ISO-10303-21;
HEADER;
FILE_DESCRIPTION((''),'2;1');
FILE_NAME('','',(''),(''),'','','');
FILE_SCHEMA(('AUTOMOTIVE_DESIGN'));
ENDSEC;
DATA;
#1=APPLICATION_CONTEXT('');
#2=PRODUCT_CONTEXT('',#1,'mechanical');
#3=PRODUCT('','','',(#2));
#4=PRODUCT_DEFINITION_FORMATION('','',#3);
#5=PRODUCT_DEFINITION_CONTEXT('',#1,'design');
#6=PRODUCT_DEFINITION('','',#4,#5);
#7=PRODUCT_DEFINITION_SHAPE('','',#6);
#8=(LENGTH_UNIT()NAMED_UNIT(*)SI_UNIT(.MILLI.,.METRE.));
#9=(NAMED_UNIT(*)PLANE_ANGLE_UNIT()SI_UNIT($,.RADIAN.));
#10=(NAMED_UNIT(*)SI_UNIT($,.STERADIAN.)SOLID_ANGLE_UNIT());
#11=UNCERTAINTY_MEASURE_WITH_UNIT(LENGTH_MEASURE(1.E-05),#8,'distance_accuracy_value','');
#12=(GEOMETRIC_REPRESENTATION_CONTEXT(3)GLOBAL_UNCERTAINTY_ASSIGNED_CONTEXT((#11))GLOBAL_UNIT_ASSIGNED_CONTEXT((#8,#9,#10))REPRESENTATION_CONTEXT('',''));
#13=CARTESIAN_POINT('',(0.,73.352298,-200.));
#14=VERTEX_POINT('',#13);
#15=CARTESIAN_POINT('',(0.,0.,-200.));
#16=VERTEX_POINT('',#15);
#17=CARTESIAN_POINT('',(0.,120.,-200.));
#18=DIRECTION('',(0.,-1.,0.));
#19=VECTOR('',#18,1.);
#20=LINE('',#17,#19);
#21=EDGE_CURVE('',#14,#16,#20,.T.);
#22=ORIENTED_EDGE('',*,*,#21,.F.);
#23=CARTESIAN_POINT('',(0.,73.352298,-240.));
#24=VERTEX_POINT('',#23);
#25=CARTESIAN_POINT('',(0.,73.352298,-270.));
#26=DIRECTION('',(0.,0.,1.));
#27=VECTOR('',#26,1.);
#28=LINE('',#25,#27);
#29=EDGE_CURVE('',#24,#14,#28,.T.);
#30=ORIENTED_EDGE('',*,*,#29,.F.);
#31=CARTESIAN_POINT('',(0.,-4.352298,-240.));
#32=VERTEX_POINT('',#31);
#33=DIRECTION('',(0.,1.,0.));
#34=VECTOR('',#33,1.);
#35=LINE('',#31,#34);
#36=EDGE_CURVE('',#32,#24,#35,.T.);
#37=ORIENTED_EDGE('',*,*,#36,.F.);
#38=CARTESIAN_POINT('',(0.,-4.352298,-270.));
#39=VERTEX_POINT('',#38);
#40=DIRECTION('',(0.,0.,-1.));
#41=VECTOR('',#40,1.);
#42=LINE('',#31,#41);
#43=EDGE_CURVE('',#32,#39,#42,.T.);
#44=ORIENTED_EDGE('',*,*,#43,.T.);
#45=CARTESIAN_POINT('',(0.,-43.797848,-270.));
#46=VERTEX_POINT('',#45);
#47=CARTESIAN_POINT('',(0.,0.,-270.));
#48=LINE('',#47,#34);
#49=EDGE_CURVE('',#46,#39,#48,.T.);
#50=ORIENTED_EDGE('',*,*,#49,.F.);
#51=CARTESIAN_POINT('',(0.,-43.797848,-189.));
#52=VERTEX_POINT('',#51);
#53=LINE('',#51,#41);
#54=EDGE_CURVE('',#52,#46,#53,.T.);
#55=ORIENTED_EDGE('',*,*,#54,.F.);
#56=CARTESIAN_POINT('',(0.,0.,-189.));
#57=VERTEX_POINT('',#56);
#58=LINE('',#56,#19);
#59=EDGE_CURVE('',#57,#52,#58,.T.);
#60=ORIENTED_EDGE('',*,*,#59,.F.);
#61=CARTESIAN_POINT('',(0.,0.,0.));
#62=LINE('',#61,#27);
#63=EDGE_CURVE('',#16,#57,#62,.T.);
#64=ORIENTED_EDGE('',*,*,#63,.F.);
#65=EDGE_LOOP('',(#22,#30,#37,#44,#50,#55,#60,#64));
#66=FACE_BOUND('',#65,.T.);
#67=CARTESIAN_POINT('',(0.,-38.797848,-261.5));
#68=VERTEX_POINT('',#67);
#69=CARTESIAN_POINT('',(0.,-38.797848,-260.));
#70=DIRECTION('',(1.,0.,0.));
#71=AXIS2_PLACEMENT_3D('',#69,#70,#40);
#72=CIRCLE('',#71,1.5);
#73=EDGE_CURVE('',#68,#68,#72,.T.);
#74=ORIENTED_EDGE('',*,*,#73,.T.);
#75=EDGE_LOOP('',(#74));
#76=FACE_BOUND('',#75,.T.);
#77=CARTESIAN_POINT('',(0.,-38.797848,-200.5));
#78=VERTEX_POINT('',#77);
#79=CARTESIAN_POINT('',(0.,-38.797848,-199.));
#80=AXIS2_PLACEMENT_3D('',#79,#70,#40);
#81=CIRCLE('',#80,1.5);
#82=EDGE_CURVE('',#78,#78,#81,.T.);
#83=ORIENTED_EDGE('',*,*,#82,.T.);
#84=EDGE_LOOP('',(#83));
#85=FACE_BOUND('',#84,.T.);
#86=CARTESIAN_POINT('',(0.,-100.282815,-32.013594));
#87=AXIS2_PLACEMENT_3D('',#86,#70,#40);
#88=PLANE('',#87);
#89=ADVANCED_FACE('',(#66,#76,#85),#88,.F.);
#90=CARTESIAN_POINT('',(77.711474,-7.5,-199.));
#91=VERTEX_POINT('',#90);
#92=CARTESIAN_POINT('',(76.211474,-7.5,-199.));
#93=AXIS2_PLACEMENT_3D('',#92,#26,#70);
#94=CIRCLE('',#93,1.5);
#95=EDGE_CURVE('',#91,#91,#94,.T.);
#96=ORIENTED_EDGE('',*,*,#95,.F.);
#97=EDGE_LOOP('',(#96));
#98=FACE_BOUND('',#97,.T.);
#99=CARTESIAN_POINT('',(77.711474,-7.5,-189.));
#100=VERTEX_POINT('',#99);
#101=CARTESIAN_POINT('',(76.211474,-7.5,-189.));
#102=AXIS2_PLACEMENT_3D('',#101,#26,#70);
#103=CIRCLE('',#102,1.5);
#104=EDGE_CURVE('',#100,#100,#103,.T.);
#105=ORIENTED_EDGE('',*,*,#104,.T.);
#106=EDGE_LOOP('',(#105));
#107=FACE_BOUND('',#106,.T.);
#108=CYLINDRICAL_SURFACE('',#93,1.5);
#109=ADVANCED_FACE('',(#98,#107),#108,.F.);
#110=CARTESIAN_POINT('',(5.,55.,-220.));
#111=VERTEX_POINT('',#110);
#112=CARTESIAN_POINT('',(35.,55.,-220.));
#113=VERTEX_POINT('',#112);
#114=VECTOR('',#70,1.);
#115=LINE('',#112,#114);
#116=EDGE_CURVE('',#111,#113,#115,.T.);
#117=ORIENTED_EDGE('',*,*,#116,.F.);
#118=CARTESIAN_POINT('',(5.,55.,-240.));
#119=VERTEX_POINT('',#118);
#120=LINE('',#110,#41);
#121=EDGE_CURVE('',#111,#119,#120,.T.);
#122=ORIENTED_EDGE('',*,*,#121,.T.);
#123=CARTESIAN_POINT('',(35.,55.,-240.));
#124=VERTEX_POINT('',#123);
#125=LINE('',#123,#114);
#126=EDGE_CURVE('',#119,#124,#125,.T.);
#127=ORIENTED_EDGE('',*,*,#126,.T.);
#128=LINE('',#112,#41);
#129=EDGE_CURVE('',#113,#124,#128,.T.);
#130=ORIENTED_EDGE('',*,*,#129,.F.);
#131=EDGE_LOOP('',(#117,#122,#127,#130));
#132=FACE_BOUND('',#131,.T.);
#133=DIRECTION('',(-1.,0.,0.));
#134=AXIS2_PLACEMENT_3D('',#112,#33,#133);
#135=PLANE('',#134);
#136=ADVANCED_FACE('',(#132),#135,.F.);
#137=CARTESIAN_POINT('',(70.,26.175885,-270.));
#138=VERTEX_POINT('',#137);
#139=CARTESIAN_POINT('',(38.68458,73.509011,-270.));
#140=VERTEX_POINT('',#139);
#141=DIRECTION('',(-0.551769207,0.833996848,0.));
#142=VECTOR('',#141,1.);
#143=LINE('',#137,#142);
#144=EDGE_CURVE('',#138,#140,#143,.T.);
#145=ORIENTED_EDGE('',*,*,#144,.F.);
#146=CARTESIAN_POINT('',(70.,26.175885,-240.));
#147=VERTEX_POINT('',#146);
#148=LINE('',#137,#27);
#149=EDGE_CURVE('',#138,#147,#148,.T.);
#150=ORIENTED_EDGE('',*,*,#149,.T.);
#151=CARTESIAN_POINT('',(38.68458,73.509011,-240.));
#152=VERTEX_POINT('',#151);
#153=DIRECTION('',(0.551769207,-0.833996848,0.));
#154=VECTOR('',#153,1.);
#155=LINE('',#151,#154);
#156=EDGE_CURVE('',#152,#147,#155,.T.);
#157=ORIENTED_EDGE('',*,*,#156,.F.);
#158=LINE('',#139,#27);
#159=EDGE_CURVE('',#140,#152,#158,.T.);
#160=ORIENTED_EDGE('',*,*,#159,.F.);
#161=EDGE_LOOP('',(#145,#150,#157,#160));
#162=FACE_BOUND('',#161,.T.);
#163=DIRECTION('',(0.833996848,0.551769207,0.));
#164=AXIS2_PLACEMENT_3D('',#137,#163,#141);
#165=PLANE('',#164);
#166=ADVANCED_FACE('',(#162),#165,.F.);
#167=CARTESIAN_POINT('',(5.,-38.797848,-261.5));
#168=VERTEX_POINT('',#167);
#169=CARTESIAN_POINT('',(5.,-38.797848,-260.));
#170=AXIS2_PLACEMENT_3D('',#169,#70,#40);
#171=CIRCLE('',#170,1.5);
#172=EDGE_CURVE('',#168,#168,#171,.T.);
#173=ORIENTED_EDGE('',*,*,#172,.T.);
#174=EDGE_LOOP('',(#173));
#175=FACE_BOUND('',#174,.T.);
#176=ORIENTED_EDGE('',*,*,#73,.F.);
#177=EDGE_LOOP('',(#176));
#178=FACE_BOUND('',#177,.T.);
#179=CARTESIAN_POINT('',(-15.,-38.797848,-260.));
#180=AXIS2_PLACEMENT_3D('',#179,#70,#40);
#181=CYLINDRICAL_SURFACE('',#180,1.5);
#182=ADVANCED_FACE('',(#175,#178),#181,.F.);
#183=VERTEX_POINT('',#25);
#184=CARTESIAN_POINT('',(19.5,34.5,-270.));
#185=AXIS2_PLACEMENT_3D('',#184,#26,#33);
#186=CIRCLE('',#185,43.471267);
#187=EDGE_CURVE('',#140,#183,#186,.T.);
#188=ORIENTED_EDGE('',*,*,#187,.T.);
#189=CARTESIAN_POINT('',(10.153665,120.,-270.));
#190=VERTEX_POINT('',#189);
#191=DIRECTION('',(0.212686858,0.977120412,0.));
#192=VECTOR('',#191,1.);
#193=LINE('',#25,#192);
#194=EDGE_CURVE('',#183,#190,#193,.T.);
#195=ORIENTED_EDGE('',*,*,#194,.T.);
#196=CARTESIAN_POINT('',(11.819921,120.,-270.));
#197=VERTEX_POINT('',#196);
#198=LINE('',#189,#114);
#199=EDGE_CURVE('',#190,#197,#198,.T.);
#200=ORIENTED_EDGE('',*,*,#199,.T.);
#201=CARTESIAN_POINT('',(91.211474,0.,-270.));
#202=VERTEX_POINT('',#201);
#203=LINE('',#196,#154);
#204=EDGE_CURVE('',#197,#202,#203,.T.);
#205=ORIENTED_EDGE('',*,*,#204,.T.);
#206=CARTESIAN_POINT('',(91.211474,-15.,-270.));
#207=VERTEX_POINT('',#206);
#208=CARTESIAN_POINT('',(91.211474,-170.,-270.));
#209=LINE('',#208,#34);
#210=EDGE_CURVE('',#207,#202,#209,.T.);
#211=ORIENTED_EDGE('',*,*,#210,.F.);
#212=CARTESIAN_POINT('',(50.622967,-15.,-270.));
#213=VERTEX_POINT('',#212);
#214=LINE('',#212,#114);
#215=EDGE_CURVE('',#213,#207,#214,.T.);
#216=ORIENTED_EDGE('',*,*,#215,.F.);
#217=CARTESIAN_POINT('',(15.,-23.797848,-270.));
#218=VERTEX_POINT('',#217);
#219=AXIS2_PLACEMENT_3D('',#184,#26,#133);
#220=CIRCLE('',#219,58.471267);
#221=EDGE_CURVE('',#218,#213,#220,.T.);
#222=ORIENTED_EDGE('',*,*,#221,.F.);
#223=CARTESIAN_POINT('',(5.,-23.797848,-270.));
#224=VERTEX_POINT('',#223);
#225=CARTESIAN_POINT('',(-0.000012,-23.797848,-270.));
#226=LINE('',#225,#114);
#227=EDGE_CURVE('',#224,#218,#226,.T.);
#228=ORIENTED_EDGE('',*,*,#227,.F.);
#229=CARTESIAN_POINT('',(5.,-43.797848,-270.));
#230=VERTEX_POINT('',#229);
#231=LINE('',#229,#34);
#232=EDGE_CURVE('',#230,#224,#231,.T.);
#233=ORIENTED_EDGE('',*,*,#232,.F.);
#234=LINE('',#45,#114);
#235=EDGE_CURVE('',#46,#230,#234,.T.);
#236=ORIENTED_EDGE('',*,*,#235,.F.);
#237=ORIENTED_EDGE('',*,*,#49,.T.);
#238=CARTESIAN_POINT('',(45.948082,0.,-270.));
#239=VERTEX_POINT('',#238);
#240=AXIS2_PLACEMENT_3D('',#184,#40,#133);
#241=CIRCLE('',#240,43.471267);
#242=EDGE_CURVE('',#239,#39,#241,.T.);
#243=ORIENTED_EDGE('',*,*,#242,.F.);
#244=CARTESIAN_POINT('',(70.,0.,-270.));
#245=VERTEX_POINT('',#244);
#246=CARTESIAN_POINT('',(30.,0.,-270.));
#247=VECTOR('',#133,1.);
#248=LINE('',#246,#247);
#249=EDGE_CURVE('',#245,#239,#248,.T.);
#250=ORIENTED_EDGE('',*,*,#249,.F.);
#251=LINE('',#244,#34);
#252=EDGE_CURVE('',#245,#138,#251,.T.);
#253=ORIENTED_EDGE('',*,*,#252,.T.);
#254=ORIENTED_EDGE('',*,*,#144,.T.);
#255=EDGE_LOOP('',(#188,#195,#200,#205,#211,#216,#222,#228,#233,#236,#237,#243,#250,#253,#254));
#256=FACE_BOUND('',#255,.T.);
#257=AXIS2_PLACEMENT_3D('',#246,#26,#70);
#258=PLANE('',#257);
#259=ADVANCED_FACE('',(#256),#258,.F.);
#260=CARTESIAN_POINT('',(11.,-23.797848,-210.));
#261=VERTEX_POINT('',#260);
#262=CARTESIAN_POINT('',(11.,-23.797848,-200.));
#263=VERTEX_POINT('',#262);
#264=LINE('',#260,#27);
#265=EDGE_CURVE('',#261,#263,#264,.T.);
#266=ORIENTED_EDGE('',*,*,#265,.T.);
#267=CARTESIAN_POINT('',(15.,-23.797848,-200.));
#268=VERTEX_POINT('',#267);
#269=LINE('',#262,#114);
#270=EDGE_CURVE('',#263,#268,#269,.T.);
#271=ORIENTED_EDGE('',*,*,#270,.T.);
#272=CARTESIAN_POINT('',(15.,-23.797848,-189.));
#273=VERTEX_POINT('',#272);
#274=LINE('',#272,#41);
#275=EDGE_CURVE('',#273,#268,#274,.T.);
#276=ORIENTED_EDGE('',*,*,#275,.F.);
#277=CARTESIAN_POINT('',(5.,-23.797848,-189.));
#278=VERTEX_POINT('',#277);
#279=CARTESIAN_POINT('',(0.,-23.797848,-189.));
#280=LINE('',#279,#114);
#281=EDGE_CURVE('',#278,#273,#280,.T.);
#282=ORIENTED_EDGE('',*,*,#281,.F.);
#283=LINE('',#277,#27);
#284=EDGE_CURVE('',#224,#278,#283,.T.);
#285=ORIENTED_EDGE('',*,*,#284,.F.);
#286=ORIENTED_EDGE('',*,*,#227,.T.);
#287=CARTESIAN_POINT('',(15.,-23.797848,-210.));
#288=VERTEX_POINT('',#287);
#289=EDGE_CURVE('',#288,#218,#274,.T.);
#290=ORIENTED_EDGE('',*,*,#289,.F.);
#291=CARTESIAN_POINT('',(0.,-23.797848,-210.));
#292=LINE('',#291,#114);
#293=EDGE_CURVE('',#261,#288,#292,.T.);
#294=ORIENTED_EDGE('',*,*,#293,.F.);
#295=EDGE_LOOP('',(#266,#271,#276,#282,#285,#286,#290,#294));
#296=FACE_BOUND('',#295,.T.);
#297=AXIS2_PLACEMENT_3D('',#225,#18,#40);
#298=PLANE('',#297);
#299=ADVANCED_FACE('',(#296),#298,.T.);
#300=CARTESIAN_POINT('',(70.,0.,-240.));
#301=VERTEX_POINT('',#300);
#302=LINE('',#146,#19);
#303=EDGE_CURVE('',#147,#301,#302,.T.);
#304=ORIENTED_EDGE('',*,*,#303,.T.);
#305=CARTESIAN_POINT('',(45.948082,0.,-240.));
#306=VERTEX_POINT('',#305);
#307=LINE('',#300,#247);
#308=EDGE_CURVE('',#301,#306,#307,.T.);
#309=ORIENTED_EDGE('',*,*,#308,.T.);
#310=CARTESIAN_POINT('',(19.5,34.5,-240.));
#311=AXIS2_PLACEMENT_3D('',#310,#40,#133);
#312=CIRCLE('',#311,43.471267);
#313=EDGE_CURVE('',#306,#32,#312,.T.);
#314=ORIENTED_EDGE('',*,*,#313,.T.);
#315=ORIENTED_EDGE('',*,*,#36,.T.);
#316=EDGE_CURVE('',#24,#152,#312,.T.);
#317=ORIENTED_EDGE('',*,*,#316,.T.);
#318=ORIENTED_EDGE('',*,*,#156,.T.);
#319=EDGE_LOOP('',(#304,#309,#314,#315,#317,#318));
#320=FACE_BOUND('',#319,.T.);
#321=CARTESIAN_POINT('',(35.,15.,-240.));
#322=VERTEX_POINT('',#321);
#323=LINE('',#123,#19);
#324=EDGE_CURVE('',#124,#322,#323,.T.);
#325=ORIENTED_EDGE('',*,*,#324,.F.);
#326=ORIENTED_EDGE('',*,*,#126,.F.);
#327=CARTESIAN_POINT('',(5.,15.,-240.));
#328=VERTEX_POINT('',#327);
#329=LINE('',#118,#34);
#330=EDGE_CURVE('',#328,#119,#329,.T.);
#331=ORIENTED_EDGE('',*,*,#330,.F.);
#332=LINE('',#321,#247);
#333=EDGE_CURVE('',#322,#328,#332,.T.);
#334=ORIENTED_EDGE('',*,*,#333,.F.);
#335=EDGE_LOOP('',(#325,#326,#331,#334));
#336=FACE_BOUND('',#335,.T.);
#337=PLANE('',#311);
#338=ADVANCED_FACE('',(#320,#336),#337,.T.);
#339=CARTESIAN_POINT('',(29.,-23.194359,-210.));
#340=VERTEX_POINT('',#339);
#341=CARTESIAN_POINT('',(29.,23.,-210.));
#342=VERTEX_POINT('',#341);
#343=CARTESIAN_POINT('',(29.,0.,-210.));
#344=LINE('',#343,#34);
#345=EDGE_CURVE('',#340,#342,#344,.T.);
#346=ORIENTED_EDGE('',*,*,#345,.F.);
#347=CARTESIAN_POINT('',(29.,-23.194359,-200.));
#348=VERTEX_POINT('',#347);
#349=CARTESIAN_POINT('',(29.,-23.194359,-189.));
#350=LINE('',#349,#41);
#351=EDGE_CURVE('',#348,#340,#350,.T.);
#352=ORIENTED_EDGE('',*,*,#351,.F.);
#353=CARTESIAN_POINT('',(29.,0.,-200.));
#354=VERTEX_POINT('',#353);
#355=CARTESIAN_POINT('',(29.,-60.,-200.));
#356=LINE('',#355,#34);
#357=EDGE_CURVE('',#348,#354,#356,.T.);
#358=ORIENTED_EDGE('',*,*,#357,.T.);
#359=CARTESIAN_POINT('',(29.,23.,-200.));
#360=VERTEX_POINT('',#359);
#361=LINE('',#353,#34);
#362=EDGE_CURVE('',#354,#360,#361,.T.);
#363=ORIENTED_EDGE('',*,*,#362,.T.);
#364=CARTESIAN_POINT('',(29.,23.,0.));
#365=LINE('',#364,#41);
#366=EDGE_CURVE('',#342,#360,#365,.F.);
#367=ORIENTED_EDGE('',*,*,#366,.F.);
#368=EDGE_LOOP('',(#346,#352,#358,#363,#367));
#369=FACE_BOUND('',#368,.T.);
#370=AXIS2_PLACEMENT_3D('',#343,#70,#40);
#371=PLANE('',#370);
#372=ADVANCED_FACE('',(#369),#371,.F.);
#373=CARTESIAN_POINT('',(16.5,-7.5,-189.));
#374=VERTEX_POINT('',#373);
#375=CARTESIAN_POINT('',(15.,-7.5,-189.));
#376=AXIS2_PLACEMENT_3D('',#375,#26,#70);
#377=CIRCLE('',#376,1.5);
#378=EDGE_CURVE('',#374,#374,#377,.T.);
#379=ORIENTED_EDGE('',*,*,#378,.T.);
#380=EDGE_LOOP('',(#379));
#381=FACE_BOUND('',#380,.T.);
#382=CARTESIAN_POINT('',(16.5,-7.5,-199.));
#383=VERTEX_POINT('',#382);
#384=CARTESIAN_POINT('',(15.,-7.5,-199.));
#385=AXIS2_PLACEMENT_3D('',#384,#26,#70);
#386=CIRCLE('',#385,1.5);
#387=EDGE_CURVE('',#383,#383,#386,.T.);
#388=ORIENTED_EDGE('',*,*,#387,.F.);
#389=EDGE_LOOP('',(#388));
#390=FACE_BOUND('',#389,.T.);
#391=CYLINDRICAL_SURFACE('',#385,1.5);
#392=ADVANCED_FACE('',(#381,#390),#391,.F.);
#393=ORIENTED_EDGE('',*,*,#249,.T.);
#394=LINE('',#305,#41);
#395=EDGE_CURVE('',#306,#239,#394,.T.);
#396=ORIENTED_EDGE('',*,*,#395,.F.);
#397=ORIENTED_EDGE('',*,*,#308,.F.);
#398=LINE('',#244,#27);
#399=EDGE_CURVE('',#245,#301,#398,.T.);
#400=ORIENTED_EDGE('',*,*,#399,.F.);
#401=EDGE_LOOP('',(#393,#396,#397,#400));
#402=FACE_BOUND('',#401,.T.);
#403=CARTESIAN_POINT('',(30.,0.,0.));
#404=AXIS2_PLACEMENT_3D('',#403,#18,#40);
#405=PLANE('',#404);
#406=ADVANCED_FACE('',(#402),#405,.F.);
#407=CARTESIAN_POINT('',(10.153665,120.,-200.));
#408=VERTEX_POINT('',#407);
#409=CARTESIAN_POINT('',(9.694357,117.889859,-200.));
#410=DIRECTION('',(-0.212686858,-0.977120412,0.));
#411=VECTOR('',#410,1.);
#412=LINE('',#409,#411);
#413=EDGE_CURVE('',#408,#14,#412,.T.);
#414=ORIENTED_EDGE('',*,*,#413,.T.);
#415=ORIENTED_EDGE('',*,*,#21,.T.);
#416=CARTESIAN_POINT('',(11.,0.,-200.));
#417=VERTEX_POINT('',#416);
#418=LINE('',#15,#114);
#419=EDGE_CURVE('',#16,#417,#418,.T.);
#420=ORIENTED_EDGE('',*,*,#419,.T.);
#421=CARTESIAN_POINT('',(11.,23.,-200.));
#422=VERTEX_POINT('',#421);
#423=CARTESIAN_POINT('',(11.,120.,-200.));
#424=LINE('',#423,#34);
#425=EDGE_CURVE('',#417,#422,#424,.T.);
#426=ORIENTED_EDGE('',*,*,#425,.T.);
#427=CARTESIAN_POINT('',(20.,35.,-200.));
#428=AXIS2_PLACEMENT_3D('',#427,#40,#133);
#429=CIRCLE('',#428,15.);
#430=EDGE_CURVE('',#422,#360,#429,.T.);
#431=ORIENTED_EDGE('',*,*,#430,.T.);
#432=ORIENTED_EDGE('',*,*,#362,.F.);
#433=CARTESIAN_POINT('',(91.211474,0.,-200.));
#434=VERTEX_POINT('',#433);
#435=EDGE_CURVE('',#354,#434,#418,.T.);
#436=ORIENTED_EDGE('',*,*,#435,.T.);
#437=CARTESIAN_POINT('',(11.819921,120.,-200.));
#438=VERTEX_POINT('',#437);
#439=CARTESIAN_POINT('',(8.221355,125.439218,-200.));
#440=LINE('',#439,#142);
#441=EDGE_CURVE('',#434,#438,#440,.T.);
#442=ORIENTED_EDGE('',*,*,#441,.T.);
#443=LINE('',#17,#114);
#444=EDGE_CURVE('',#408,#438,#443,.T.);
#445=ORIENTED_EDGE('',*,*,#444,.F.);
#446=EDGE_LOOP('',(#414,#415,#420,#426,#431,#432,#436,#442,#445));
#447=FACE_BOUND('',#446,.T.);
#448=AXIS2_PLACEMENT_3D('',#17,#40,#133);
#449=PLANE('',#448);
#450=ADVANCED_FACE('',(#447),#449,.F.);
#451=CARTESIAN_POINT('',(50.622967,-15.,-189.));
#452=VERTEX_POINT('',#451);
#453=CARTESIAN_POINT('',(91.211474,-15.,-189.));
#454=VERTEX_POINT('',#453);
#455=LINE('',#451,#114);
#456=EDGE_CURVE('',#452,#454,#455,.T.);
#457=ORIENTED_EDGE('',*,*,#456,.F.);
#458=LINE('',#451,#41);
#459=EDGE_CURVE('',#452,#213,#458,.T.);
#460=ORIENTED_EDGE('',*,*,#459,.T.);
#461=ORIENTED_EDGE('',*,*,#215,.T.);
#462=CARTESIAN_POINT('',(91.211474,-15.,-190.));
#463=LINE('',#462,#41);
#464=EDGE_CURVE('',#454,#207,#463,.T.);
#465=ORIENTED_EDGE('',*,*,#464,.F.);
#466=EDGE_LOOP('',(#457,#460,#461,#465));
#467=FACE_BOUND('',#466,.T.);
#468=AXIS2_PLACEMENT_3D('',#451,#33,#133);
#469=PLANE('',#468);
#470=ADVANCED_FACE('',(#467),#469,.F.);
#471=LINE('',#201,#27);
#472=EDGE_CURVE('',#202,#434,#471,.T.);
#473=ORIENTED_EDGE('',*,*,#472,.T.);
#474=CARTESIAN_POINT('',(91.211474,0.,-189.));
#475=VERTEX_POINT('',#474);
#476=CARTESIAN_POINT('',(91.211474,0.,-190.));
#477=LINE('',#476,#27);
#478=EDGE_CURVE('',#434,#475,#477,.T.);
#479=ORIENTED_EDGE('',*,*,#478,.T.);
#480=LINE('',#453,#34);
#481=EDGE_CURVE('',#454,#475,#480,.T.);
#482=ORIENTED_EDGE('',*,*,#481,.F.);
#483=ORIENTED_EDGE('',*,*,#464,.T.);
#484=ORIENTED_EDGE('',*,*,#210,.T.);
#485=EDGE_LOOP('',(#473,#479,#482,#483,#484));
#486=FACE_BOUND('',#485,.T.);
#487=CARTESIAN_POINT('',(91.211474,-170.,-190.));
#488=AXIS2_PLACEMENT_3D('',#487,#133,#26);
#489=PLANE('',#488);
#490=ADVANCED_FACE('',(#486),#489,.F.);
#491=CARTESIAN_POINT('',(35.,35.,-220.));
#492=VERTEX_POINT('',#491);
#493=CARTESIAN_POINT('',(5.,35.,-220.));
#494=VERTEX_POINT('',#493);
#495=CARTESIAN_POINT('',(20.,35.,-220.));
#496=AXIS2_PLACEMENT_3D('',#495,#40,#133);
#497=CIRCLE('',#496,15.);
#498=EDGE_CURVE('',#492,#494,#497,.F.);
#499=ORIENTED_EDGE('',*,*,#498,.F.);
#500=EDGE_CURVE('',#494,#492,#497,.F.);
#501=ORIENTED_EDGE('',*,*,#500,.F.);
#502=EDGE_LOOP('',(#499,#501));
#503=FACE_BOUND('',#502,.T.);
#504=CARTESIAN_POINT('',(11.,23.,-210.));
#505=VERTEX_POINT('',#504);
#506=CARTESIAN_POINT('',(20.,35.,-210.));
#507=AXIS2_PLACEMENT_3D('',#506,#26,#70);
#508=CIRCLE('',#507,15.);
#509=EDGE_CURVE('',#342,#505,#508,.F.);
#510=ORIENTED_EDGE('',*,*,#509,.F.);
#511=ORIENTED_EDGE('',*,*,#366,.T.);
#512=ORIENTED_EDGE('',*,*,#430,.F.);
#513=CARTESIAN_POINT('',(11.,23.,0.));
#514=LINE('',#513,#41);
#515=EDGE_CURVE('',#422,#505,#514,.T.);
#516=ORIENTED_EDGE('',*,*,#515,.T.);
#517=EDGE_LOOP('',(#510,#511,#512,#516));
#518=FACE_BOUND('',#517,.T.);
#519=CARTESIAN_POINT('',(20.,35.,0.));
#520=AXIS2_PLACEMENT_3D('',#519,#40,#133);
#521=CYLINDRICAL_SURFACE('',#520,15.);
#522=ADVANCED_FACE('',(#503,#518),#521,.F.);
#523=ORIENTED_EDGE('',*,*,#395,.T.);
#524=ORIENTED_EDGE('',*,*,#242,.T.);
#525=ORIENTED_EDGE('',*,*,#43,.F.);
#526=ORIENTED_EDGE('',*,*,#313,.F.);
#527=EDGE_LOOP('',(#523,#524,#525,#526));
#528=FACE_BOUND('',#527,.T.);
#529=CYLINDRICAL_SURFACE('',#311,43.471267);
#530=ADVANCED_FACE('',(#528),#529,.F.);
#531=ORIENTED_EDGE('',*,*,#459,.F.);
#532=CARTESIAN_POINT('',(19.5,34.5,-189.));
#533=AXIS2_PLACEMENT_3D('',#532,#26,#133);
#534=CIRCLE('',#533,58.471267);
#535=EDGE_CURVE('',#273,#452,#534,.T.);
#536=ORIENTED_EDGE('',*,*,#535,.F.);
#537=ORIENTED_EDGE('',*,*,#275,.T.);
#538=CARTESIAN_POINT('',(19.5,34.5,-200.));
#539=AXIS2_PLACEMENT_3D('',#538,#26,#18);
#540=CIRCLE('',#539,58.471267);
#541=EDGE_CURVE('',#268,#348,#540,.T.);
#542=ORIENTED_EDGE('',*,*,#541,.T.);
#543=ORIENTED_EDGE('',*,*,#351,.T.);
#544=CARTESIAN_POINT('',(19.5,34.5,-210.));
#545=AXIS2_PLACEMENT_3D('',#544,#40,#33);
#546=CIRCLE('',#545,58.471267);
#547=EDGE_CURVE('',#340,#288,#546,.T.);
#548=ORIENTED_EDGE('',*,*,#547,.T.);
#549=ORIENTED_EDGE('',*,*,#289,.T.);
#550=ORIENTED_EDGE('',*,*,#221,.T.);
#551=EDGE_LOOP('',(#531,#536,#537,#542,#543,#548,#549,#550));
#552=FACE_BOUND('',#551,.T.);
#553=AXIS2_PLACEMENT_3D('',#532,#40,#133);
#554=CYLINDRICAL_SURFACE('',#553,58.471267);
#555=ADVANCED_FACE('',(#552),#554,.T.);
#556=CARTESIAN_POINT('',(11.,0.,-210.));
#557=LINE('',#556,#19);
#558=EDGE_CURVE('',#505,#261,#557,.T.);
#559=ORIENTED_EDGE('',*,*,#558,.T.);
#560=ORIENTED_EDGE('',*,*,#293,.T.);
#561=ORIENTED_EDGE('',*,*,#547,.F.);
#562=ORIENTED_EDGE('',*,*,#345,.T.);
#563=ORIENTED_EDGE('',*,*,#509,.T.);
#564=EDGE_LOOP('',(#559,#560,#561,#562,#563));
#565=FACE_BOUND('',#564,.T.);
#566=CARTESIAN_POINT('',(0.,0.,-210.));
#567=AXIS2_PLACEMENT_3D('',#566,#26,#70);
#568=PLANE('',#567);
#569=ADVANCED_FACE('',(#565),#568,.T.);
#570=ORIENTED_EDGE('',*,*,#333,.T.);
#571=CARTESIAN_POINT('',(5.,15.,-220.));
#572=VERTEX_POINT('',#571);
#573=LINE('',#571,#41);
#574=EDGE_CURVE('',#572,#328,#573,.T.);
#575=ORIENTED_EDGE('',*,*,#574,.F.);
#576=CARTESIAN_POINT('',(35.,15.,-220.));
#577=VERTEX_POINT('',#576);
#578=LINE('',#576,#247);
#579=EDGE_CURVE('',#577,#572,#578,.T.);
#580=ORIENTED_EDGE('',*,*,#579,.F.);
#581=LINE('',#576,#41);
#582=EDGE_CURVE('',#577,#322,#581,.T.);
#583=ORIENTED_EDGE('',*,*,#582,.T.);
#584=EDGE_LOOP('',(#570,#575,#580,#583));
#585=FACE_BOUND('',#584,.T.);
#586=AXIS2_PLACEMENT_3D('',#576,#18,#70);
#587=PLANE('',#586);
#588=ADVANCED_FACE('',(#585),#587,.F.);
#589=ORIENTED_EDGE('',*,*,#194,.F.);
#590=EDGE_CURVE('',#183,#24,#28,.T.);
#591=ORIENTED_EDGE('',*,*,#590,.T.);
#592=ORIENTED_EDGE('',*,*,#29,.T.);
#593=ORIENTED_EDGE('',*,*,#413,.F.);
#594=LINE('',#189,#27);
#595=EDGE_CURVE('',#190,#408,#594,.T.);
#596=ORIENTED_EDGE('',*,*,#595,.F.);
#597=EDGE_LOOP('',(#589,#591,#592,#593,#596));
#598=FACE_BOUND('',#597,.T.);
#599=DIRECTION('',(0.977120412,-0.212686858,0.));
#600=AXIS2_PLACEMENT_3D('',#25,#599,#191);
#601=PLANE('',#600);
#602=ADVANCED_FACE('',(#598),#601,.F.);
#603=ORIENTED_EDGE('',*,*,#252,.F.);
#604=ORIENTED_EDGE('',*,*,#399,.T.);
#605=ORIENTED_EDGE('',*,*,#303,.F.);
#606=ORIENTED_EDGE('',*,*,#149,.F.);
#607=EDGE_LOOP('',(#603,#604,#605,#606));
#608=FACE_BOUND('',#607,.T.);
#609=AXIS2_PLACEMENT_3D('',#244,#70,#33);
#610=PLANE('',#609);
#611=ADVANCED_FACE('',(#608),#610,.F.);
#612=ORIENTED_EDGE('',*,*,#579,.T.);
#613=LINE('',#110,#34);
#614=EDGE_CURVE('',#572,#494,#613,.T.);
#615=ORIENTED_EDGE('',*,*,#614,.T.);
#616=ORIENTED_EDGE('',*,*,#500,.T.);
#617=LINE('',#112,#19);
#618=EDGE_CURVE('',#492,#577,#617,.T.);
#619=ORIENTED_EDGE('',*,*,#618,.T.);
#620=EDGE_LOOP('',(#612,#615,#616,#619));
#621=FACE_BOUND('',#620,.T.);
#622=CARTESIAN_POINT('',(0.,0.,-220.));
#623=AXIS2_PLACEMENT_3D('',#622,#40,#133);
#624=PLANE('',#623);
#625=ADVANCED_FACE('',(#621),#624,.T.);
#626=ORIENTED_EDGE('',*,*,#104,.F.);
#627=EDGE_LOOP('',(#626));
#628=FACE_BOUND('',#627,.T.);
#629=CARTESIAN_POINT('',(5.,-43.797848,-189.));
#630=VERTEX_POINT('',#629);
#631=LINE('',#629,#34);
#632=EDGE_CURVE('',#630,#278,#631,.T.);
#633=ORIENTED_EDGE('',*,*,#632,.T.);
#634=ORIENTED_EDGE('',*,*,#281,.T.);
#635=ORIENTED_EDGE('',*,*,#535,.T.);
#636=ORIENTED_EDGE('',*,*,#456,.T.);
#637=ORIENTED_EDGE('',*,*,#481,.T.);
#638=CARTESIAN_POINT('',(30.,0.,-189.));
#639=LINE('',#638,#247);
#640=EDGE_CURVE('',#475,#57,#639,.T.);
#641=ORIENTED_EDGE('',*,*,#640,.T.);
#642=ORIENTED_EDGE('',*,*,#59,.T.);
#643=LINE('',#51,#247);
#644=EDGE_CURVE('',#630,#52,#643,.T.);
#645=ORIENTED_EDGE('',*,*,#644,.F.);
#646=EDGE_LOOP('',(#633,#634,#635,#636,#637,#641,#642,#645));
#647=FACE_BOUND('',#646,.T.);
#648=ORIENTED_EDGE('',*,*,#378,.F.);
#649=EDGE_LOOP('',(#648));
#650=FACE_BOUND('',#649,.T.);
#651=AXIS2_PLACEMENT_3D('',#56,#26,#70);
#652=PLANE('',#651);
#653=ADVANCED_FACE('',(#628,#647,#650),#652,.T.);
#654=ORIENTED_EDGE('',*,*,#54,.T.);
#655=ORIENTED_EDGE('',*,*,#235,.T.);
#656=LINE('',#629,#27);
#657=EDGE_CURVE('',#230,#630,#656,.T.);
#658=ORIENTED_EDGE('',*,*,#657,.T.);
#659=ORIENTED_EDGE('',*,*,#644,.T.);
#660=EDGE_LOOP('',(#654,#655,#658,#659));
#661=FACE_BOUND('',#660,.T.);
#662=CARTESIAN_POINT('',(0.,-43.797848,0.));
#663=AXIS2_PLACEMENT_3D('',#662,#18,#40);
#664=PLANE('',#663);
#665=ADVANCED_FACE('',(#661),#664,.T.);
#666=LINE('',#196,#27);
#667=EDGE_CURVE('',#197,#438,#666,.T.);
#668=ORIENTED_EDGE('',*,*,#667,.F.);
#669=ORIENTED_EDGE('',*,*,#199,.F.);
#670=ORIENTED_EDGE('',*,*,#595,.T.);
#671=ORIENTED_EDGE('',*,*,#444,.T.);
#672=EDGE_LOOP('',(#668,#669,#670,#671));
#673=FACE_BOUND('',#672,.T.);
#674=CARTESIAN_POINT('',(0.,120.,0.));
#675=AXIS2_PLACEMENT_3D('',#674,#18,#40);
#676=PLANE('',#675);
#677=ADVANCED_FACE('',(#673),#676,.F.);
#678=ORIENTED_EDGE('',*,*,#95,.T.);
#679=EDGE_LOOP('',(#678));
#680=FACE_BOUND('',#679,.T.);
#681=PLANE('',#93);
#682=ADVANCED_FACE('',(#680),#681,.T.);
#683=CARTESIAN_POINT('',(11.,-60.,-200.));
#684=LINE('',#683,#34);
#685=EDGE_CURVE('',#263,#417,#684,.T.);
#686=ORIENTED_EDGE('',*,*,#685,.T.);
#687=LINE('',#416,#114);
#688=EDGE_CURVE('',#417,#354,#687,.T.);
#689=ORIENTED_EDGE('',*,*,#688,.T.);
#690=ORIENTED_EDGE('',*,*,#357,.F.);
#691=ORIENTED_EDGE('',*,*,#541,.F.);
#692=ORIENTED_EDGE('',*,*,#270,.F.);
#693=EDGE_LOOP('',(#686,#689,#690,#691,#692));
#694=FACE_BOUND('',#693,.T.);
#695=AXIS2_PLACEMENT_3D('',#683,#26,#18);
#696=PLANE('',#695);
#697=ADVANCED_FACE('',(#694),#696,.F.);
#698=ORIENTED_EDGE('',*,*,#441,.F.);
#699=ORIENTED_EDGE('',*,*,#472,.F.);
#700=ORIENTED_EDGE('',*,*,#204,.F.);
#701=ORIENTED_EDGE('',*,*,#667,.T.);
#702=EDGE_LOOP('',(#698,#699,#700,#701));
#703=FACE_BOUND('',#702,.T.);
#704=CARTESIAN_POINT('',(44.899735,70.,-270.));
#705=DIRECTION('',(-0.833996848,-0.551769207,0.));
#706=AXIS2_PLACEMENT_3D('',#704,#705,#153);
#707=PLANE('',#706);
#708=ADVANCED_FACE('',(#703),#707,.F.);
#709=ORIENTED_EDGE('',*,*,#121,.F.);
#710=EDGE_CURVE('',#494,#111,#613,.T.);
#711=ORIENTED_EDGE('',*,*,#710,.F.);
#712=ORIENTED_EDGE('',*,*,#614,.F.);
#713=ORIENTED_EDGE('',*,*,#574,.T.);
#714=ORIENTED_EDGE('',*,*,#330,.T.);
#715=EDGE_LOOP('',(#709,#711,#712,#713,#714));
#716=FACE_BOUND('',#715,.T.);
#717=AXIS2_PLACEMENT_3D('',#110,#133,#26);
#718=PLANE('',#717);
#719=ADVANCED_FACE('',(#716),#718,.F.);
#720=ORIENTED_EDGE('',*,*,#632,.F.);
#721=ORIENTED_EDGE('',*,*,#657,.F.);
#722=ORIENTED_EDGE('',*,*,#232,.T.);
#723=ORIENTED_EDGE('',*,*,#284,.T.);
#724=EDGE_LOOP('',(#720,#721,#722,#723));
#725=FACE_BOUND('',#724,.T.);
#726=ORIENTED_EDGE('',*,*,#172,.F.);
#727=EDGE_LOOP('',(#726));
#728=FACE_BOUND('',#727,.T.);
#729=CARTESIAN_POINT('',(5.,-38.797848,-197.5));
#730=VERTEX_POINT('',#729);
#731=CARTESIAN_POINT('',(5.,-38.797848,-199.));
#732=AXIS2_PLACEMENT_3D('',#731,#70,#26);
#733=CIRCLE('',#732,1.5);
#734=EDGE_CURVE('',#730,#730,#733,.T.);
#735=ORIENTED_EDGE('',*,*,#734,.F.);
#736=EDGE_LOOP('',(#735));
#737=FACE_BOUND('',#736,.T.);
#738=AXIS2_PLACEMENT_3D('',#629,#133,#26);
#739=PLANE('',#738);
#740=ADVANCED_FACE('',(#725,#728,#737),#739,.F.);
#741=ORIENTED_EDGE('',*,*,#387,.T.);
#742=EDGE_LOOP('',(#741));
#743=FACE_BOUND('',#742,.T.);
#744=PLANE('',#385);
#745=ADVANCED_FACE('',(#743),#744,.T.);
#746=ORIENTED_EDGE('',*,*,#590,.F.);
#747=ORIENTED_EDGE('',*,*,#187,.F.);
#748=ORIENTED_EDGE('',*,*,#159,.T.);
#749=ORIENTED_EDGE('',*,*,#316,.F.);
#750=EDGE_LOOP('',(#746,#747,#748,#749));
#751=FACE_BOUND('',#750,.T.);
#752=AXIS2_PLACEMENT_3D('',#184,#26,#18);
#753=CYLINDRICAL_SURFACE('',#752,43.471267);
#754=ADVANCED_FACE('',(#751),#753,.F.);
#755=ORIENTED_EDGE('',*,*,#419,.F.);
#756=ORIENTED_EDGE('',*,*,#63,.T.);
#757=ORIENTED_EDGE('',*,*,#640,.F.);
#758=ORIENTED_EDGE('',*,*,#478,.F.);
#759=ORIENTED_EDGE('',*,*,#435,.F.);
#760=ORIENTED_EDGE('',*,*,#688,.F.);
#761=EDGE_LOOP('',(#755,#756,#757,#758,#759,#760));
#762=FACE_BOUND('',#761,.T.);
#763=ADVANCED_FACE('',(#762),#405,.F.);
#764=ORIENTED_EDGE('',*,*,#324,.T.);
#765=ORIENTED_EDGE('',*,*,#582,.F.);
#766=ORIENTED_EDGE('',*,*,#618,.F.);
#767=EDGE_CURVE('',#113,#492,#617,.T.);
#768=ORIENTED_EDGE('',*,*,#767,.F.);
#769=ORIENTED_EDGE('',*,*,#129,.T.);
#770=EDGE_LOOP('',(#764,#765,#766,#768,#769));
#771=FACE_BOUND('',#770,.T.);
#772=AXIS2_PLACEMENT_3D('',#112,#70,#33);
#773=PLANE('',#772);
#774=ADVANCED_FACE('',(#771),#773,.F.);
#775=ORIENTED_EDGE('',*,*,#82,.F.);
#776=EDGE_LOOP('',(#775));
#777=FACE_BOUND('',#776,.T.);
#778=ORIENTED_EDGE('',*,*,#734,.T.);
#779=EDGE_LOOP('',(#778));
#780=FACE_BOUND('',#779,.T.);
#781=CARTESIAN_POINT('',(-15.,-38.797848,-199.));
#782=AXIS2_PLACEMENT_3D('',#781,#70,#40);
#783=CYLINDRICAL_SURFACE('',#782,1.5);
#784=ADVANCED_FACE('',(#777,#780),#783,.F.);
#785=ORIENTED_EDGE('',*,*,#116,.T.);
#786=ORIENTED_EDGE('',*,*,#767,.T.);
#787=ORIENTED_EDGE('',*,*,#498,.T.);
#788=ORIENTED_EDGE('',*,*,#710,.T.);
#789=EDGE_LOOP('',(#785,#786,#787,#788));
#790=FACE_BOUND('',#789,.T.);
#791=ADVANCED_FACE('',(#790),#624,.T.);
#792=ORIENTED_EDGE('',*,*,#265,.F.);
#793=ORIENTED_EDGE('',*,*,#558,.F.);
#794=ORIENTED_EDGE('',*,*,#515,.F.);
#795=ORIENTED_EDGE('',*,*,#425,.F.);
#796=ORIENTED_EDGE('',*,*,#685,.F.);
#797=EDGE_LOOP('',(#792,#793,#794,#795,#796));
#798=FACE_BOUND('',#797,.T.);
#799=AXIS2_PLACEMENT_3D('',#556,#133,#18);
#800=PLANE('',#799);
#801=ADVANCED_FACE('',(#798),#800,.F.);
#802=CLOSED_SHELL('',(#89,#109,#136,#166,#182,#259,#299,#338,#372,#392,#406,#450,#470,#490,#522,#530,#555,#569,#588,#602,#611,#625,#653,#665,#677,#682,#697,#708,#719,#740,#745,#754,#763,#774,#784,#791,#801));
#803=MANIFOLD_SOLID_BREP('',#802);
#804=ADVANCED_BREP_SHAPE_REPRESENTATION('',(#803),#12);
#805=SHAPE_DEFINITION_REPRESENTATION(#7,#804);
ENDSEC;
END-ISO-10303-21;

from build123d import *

# Parameters (mm, degrees)
EXTRUDE_1_DEPTH           = 30
EXTRUDE_2_DEPTH           = 210
SKETCH_8_W                = 25
SKETCH_8_H                = 120
EXTRUDE_5_DEPTH           = 70
SKETCH_9_W                = 25
SKETCH_9_H                = 60
EXTRUDE_6_DEPTH           = 60
SKETCH_10_R               = 7.5
CUT_EXTRUDE_3_DEPTH       = 402.372644808
EXTRUDE_7_DEPTH           = 60
EXTRUDE_8_REACH           = 392.16
SKETCH_12_R               = 2.5
SKETCH_14_W               = 125
SKETCH_14_H               = 50
EXTRUDE_9_DEPTH           = 120
SKETCH_15_W               = 70
SKETCH_15_H               = 70
CUT_EXTRUDE_4_DEPTH       = 10
CUT_EXTRUDE_5_DEPTH       = 20
SKETCH_17_R               = 43.471266984
CUT_EXTRUDE_6_DEPTH       = 428.317212384
EXTRUDE_10_DEPTH          = 20
EXTRUDE_11_DEPTH          = 20
CUT_EXTRUDE_7_DEPTH       = 434.012701892
CUT_EXTRUDE_8_DEPTH       = 434.012701892
EXTRUDE_19_REACH          = 446.86
EXTRUDE_20_DEPTH          = 20
EXTRUDE_21_DEPTH          = 20
EXTRUDE_START             = 20
EXTRUDE_22_DEPTH          = 20
CUT_EXTRUDE_9_DEPTH       = 30
CUT_EXTRUDE_11_DEPTH      = 407.201920232
CUT_EXTRUDE_11_DEPTH_BACK = 407.201920232
SKETCH_29_R               = 15
EXTRUDE_23_DEPTH          = 78.203243
SKETCH_33_W               = 30
SKETCH_33_H               = 40
CUT_EXTRUDE_14_DEPTH      = 20
SKETCH_34_W               = 18
SKETCH_34_H               = 35.300600551
CUT_EXTRUDE_15_DEPTH      = 10
CUT_EXTRUDE_16_DEPTH      = 10
SKETCH_36_RX              = 24.05
SKETCH_36_RY              = 15.9
SKETCH_36_R               = 15.9
CUT_EXTRUDE_17_DEPTH      = 4
SKETCH_37_W               = 148.788525811
SKETCH_37_H               = 80
CUT_EXTRUDE_18_DEPTH      = 445.859528391
SKETCH_38_W               = 76.211474189
SKETCH_38_H               = 51.3
CUT_EXTRUDE_20_DEPTH      = 80
CUT_EXTRUDE_START         = -81
CUT_EXTRUDE_21_DEPTH      = 81
CUT_EXTRUDE_22_DEPTH      = 402.372644808
SKETCH_41_W               = 18
SKETCH_41_H               = 10
CUT_EXTRUDE_23_DEPTH      = 60
SKETCH_44_W               = 50
SKETCH_44_H               = 109
EXTRUDE_26_DEPTH          = 15
SKETCH_45_W               = 50
SKETCH_45_H               = 109
EXTRUDE_27_DEPTH          = 15
EXTRUDE_28_DEPTH          = 15
SKETCH_47_W               = 15
SKETCH_47_H               = 50.339258453
CUT_EXTRUDE_24_DEPTH      = 109
CUT_EXTRUDE_27_DEPTH      = 400.249295554
CUT_EXTRUDE_27_DEPTH_BACK = 400.249295554
CUT_EXTRUDE_28_DEPTH      = 435.539986653
CUT_EXTRUDE_28_DEPTH_BACK = 435.539986653
CUT_EXTRUDE_29_DEPTH      = 323.795419456
CUT_EXTRUDE_29_DEPTH_BACK = 15
SKETCH_56_W               = 81
SKETCH_56_H               = 139.588324269
SKETCH_57_W               = 5
SKETCH_57_H               = 81
EXTRUDE_30_DEPTH          = 20
SKETCH_58_R               = 1.5
CUT_EXTRUDE_30_DEPTH      = 20
SKETCH_59_R               = 1.5
CUT_EXTRUDE_31_DEPTH      = 10


with BuildPart() as part:
    # 草图1 → 凸台-拉伸1 (new body)
    with BuildSketch(Plane(origin=(0, 0, 0), x_dir=(0, 0, -1), z_dir=(1, 0, 0))):
        with BuildLine():
            Line((0, 0), (270, 0))
            Line((270, 0), (270, -100.282814983))
            ThreePointArc((270, -100.282814983), (264.178138298, -118.691056762), (248.830033233, -130.404003019))
            Line((248.830033233, -130.404003019), (142.45524498, -168.69892679))
            ThreePointArc((142.45524498, -168.69892679), (135, -170), (127.54475502, -168.69892679))
            Line((127.54475502, -168.69892679), (21.169966767, -130.404003019))
            ThreePointArc((21.169966767, -130.404003019), (5.821861702, -118.691056762), (0, -100.282814983))
            Line((0, -100.282814983), (0, 0))
        make_face()
    extrude(amount=EXTRUDE_1_DEPTH)

    # 草图2 → 凸台-拉伸2 (add)
    with BuildSketch(Plane(origin=(30, 0, 0), x_dir=(0, 0, -1), z_dir=(1, 0, 0))):
        with BuildLine():
            Line((105, -160.582814983), (105, 0))
            Line((105, 0), (0, 0))
            Line((0, 0), (0, -100.282814983))
            ThreePointArc((0, -100.282814983), (5.821861702, -118.691056762), (21.169966767, -130.404003019))
            Line((21.169966767, -130.404003019), (105, -160.582814983))
        make_face()
        with BuildLine():
            Line((270, 0), (165, 0))
            Line((165, 0), (165, -160.582814983))
            Line((165, -160.582814983), (248.830033233, -130.404003019))
            ThreePointArc((248.830033233, -130.404003019), (264.178138298, -118.691056762), (270, -100.282814983))
            Line((270, -100.282814983), (270, 0))
        make_face()
    extrude(amount=EXTRUDE_2_DEPTH)

    # 草图8 → 凸台-拉伸5 (add)
    with BuildSketch(Plane(origin=(240, 0, 0), x_dir=(0, 0, -1), z_dir=(1, 0, 0))):
        with Locations((92.5, 0)):
            Rectangle(SKETCH_8_W, SKETCH_8_H)
        with Locations((177.5, 0)):
            Rectangle(SKETCH_8_W, SKETCH_8_H)
    extrude(amount=EXTRUDE_5_DEPTH)

    # 草图9 → 凸台-拉伸6 (add)
    with BuildSketch(Plane.ZY.offset(-240)):
        with Locations((-92.5, 30)):
            Rectangle(SKETCH_9_W, SKETCH_9_H)
        with Locations((-177.5, 30)):
            Rectangle(SKETCH_9_W, SKETCH_9_H)
    extrude(amount=EXTRUDE_6_DEPTH)

    # 草图10 → 切除-拉伸3 (cut, through all)
    with BuildSketch(Plane.XY.offset(-80)):
        with Locations((270, 30)):
            Circle(SKETCH_10_R)
    extrude(amount=-CUT_EXTRUDE_3_DEPTH, mode=Mode.SUBTRACT)

    # 草图11 → 凸台-拉伸7 (add)
    with BuildSketch(Plane(origin=(0, 0, -105), x_dir=(-1, 0, 0), z_dir=(0, 0, -1))):
        with BuildLine():
            Line((-30, -40), (-30, -160.582814983))
            Line((-30, -160.582814983), (-108.203242822, -160.582814983))
            ThreePointArc((-108.203242822, -160.582814983), (-60.24964282, -106.032303748), (-30, -40))
        make_face()
    extrude(amount=EXTRUDE_7_DEPTH)

    # 草图12 → 凸台-拉伸8 (add, up to next)
    with BuildSketch(Plane.XY.offset(-165), mode=Mode.PRIVATE) as extrude_8_sk1:
        with Locations(Location((70, -45, 0), (0, 0, 180))):
            Circle(SKETCH_12_R)
    extrude_8_tool1 = extrude(extrude_8_sk1.sketch, amount=EXTRUDE_8_REACH, mode=Mode.PRIVATE) - part.part
    add(extrude_8_tool1.solids().sort_by_distance((70, -45, -165))[0])

    # 草图14 → 凸台-拉伸9 (add)
    with BuildSketch(Plane(origin=(0, 0, 0), x_dir=(1, 0, 0), z_dir=(0, 1, 0))):
        with Locations((62.5, 225)):
            Rectangle(SKETCH_14_W, SKETCH_14_H)
        with Locations((62.5, 45)):
            Rectangle(SKETCH_14_W, SKETCH_14_H)
    extrude(amount=EXTRUDE_9_DEPTH)

    # 草图15 → 切除-拉伸4 (cut)
    with BuildSketch(Plane.XY.offset(-20)):
        with Locations((35, 35)):
            Rectangle(SKETCH_15_W, SKETCH_15_H)
    extrude(amount=-CUT_EXTRUDE_4_DEPTH, mode=Mode.SUBTRACT)

    # 草图16 → 切除-拉伸5 (cut)
    with BuildSketch(Plane.XY.offset(-30)):
        Polygon((35, 15), (5, 15), (5, 55), (35, 55), (35, 35), align=None)
    extrude(amount=-CUT_EXTRUDE_5_DEPTH, mode=Mode.SUBTRACT)

    # 草图17 → 切除-拉伸6 (cut, through all)
    with BuildSketch(Plane.XY.offset(-30)):
        with Locations((19.5, 34.5)):
            Circle(SKETCH_17_R)
    extrude(amount=CUT_EXTRUDE_6_DEPTH, mode=Mode.SUBTRACT)

    # 草图18 → 凸台-拉伸10 (add)
    with BuildSketch(Plane.XY.offset(-20)):
        Polygon((11.819921283, 120), (91.211474189, 0), (87.317867735, 0), (10.741661946, 115.744614613), align=None)
    extrude(amount=EXTRUDE_10_DEPTH)

    # 草图19 → 凸台-拉伸11 (add)
    with BuildSketch(Plane.XY.offset(-20)):
        with BuildLine():
            Line((1.857343832, 74.230186717), (10.856035233, 115.571739869))
            Line((10.856035233, 115.571739869), (10.741661946, 115.744614613))
            Line((10.741661946, 115.744614613), (11.819921283, 120))
            Line((11.819921283, 120), (10.153664863, 120))
            Line((10.153664863, 120), (0, 73.352297914))
            ThreePointArc((0, 73.352297914), (0.923485284, 73.80221564), (1.857343832, 74.230186717))
        make_face()
    extrude(amount=EXTRUDE_11_DEPTH)

    # 草图20 → 切除-拉伸7 (cut, through all)
    with BuildSketch(Plane.XY.offset(-20)):
        Polygon((0, 120), (0, 73.352297914), (10.153664863, 120), align=None)
    extrude(amount=-CUT_EXTRUDE_7_DEPTH, mode=Mode.SUBTRACT)

    # 草图22 → 切除-拉伸8 (cut, through all)
    with BuildSketch(Plane.XY.offset(-20)):
        Polygon((44.899734993, 70), (70, 32.061054476), (91.211474189, 0), (125, 0), (125, 120), (11.819921283, 120), align=None)
    extrude(amount=-CUT_EXTRUDE_8_DEPTH, mode=Mode.SUBTRACT)

    # 草图23 → 凸台-拉伸19 (add, up to next)
    with BuildSketch(Plane.XY, mode=Mode.PRIVATE) as extrude_19_sk1:
        with BuildLine():
            Line((87.317867735, 0), (91.211474189, 0))
            Line((91.211474189, 0), (11.819921283, 120))
            Line((11.819921283, 120), (10.153664863, 120))
            Line((10.153664863, 120), (0, 73.352297914))
            ThreePointArc((0, 73.352297914), (0.923485284, 73.80221564), (1.857343832, 74.230186717))
            Line((1.857343832, 74.230186717), (10.856035233, 115.571739869))
            Line((10.856035233, 115.571739869), (87.317867735, 0))
        make_face()
    extrude_19_tool1 = extrude(extrude_19_sk1.sketch, amount=-EXTRUDE_19_REACH, mode=Mode.PRIVATE) - part.part
    add(extrude_19_tool1.solids().sort_by_distance((89.264671, 1.5073, 0))[0])

    # 草图24 → 凸台-拉伸20 (add)
    with BuildSketch(Plane.XY.offset(-20)):
        Polygon((87.317867735, 0), (70, 26.175884614), (70, 0), align=None)
    extrude(amount=EXTRUDE_20_DEPTH)

    # 草图25 → 凸台-拉伸21 (add)
    with BuildSketch(Plane.XY.offset(-20)):
        with BuildLine():
            Line((38.684579851, 73.509011127), (10.856035233, 115.571739869))
            Line((10.856035233, 115.571739869), (1.857343832, 74.230186717))
            ThreePointArc((1.857343832, 74.230186717), (20.351120273, 77.962934179), (38.684579851, 73.509011127))
        make_face()
    extrude(amount=EXTRUDE_21_DEPTH)

    # 草图26 → 凸台-拉伸22 (add)
    with BuildSketch(Plane(origin=(0, 0, -250), x_dir=(-1, 0, 0), z_dir=(0, 0, -1)).offset(EXTRUDE_START)):
        with BuildLine():
            Line((-70, 26.175884614), (-38.684579851, 73.509011127))
            ThreePointArc((-38.684579851, 73.509011127), (-19.323897117, 77.970910285), (0, 73.352297914))
            Line((0, 73.352297914), (-10.153664863, 120))
            Line((-10.153664863, 120), (-11.819921283, 120))
            Line((-11.819921283, 120), (-91.211474189, 0))
            Line((-91.211474189, 0), (-240, 0))
            Line((-240, 0), (-240, -100.282814983))
            Line((-240, -100.282814983), (0, -100.282814983))
            Line((0, -100.282814983), (0, -4.352297914))
            ThreePointArc((0, -4.352297914), (-23.599339693, -8.77755154), (-45.948082222, 0))
            Line((-45.948082222, 0), (-70, 0))
            Line((-70, 0), (-70, 26.175884614))
        make_face()
    extrude(amount=-EXTRUDE_22_DEPTH)

    # 草图27 → 切除-拉伸9 (cut)
    with BuildSketch(Plane(origin=(0, 0, -270), x_dir=(-1, 0, 0), z_dir=(0, 0, -1))):
        with BuildLine():
            Line((-38.684579851, 73.509011127), (-70, 26.175884614))
            Line((-70, 26.175884614), (-70, 0))
            Line((-70, 0), (-45.948082222, 0))
            ThreePointArc((-45.948082222, 0), (-23.599339693, -8.77755154), (0, -4.352297914))
            Line((0, -4.352297914), (0, 73.352297914))
            ThreePointArc((0, 73.352297914), (-19.323897117, 77.970910285), (-38.684579851, 73.509011127))
        make_face()
    extrude(amount=-CUT_EXTRUDE_9_DEPTH, mode=Mode.SUBTRACT)

    # 草图29 → 切除-拉伸11 (cut, two sides: drawn at the far end of the back side and taken through both)
    with BuildSketch(Plane(origin=(0, 0, -70), x_dir=(-1, 0, 0), z_dir=(0, 0, -1)).offset(-CUT_EXTRUDE_11_DEPTH_BACK)):
        with Locations((-20, 35)):
            Circle(SKETCH_29_R)
    extrude(amount=CUT_EXTRUDE_11_DEPTH + CUT_EXTRUDE_11_DEPTH_BACK, mode=Mode.SUBTRACT)

    # 草图30 → 凸台-拉伸23 (add)
    with BuildSketch(Plane(origin=(30, 0, 0), x_dir=(0, 0, -1), z_dir=(1, 0, 0))):
        with BuildLine():
            Line((142.45524498, -168.69892679), (165, -160.582814983))
            Line((165, -160.582814983), (105, -160.582814983))
            Line((105, -160.582814983), (127.54475502, -168.69892679))
            ThreePointArc((127.54475502, -168.69892679), (135, -170), (142.45524498, -168.69892679))
        make_face()
    extrude(amount=EXTRUDE_23_DEPTH)

    # 草图33 → 切除-拉伸14 (cut)
    with BuildSketch(Plane(origin=(0, 0, -240), x_dir=(-1, 0, 0), z_dir=(0, 0, -1))):
        with Locations((-20, 35)):
            Rectangle(SKETCH_33_W, SKETCH_33_H)
    extrude(amount=-CUT_EXTRUDE_14_DEPTH, mode=Mode.SUBTRACT)

    # 草图34 → 切除-拉伸15 (cut)
    with BuildSketch(Plane.XY.offset(-200)):
        with Locations((20, 17.650300276)):
            Rectangle(SKETCH_34_W, SKETCH_34_H)
    extrude(amount=-CUT_EXTRUDE_15_DEPTH, mode=Mode.SUBTRACT)

    # 草图35 → 切除-拉伸16 (cut)
    with BuildSketch(Plane(origin=(0, 0, -70), x_dir=(-1, 0, 0), z_dir=(0, 0, -1))):
        with BuildLine():
            Line((-11, 0), (-11, 23))
            ThreePointArc((-11, 23), (-20, 20), (-29, 23))
            Line((-29, 23), (-29, 0))
            Line((-29, 0), (-11, 0))
        make_face()
    extrude(amount=-CUT_EXTRUDE_16_DEPTH, mode=Mode.SUBTRACT)

    # 草图36 → 切除-拉伸17 (cut)
    # profile 1 of 6: a face of its own
    with BuildSketch(Plane.ZY):
        with Locations((-235.69166945, -100.008005659)):
            Ellipse(SKETCH_36_RX, SKETCH_36_RY)
        with Locations((-235.69166945, -100.008005659)):
            Circle(SKETCH_36_R, mode=Mode.SUBTRACT)
    # profile 2 of 6: a face of its own
    with BuildSketch(Plane.ZY):
        with Locations((-235.69166945, -100.008005659)):
            Ellipse(SKETCH_36_RX, SKETCH_36_RY)
        with Locations((-235.69166945, -100.008005659)):
            Circle(SKETCH_36_R, mode=Mode.SUBTRACT)
    # profile 3 of 6: a face of its own
    with BuildSketch(Plane.ZY):
        with Locations((-235.69166945, -100.008005659)):
            Circle(SKETCH_36_R)
    # profile 4 of 6: a face of its own
    with BuildSketch(Plane.ZY):
        with Locations(Location((-34.30833055, -100.008005659), (0, 0, 180))):
            Ellipse(SKETCH_36_RX, SKETCH_36_RY)
        with Locations((-34.30833055, -100.008005659)):
            Circle(SKETCH_36_R, mode=Mode.SUBTRACT)
    # profile 5 of 6: a face of its own
    with BuildSketch(Plane.ZY):
        with Locations(Location((-34.30833055, -100.008005659), (0, 0, 180))):
            Ellipse(SKETCH_36_RX, SKETCH_36_RY)
        with Locations((-34.30833055, -100.008005659)):
            Circle(SKETCH_36_R, mode=Mode.SUBTRACT)
    # profile 6 of 6: a face of its own
    with BuildSketch(Plane.ZY):
        with Locations((-34.30833055, -100.008005659)):
            Circle(SKETCH_36_R)
    extrude(amount=-CUT_EXTRUDE_17_DEPTH, mode=Mode.SUBTRACT)

    # 草图37 → 切除-拉伸18 (cut, through all)
    with BuildSketch(Plane(origin=(0, 0, 0), x_dir=(1, 0, 0), z_dir=(0, 1, 0))):
        with Locations((165.605737095, 40)):
            Rectangle(SKETCH_37_W, SKETCH_37_H)
        with Locations((165.605737095, 230)):
            Rectangle(SKETCH_37_W, SKETCH_37_H)
    extrude(amount=-CUT_EXTRUDE_18_DEPTH, mode=Mode.SUBTRACT)

    # 草图38 → 切除-拉伸20 (cut)
    with BuildSketch(Plane.XY):
        with Locations((53.105737095, -125.932814983)):
            Rectangle(SKETCH_38_W, SKETCH_38_H)
        Polygon((91.211474189, -15), (76.211474189, -15), (76.211474189, -85.282814983), (15, -85.282814983), (15, -100.282814983), (91.211474189, -100.282814983), align=None)
        with BuildLine():
            ThreePointArc((15, -23.79784784), (33.51949079, -22.265684535), (50.622966805, -15))
            Line((50.622966805, -15), (70, -15))
            Line((70, -15), (76.211474189, -15))
            Line((76.211474189, -15), (76.211474189, -85.282814983))
            Line((76.211474189, -85.282814983), (15, -85.282814983))
            Line((15, -85.282814983), (15, -23.79784784))
        make_face()
    extrude(amount=-CUT_EXTRUDE_20_DEPTH, mode=Mode.SUBTRACT)

    # 草图39 → 切除-拉伸21 (cut)
    with BuildSketch(Plane(origin=(0, 0, -270), x_dir=(-1, 0, 0), z_dir=(0, 0, -1)).offset(CUT_EXTRUDE_START)):
        with BuildLine():
            Line((-180, 60), (-310, 60))
            Line((-310, 60), (-310, -60))
            Line((-310, -60), (-240, -60))
            Line((-240, -60), (-240, -151.582814983))
            Line((-240, -151.582814983), (-15, -151.582814983))
            Line((-15, -151.582814983), (-15, -23.79784784))
            ThreePointArc((-15, -23.79784784), (-33.51949079, -22.265684535), (-50.622966805, -15))
            Line((-50.622966805, -15), (-91.211474189, -15))
            Line((-91.211474189, -15), (-91.211474189, 0))
            Line((-91.211474189, 0), (-180, 0))
            Line((-180, 0), (-180, 60))
        make_face()
    extrude(amount=CUT_EXTRUDE_21_DEPTH, mode=Mode.SUBTRACT)

    # 草图40 → 切除-拉伸22 (cut, through all)
    with BuildSketch(Plane.XY.offset(-80)):
        with BuildLine():
            Line((74.655848302, -141.582814983), (40, -141.582814983))
            Line((40, -141.582814983), (40, -91.24355653))
            ThreePointArc((40, -91.24355653), (55.843697078, -117.43499557), (74.655848302, -141.582814983))
        make_face()
    extrude(amount=-CUT_EXTRUDE_22_DEPTH, mode=Mode.SUBTRACT)

    # 草图41 → 切除-拉伸23 (cut)
    with BuildSketch(Plane(origin=(0, 0, 0), x_dir=(1, 0, 0), z_dir=(0, 1, 0))):
        with Locations((20, 65)):
            Rectangle(SKETCH_41_W, SKETCH_41_H)
        with Locations((20, 205)):
            Rectangle(SKETCH_41_W, SKETCH_41_H)
    extrude(amount=-CUT_EXTRUDE_23_DEPTH, mode=Mode.SUBTRACT)

    # 草图44 → 凸台-拉伸26 (add)
    with BuildSketch(Plane(origin=(0, 60, 0), x_dir=(1, 0, 0), z_dir=(0, 1, 0))):
        with Locations((285, 134.5)):
            Rectangle(SKETCH_44_W, SKETCH_44_H)
    extrude(amount=EXTRUDE_26_DEPTH)

    # 草图45 → 凸台-拉伸27 (add)
    with BuildSketch(Plane.XZ.offset(60)):
        with Locations((285, -134.5)):
            Rectangle(SKETCH_45_W, SKETCH_45_H)
    extrude(amount=EXTRUDE_27_DEPTH)

    # 草图46 → 凸台-拉伸28 (add)
    with BuildSketch(Plane(origin=(240, 0, 0), x_dir=(0, 0, -1), z_dir=(1, 0, 0))):
        Polygon((80, -151.582814983), (105, -160.582814983), (165, -160.582814983), (189, -151.942814983), (189, -130.582814983), (80, -130.582814983), align=None)
    extrude(amount=EXTRUDE_28_DEPTH)

    # 草图47 → 切除-拉伸24 (cut)
    with BuildSketch(Plane(origin=(0, 0, -189), x_dir=(-1, 0, 0), z_dir=(0, 0, -1))):
        with Locations((-32.5, -116.413185757)):
            Rectangle(SKETCH_47_W, SKETCH_47_H)
    extrude(amount=-CUT_EXTRUDE_24_DEPTH, mode=Mode.SUBTRACT)

    # 草图51 → 切除-拉伸27 (cut, two sides: drawn at the far end of the back side and taken through both)
    with BuildSketch(Plane(origin=(240, 0, 0), x_dir=(0, 0, -1), z_dir=(1, 0, 0)).offset(-CUT_EXTRUDE_27_DEPTH_BACK)):
        Polygon((190, -151.582814983), (189, -151.582814983), (189, -151.942814983), align=None)
    extrude(amount=CUT_EXTRUDE_27_DEPTH + CUT_EXTRUDE_27_DEPTH_BACK, mode=Mode.SUBTRACT)

    # 草图48 → 切除-拉伸28 (cut, two sides: drawn at the far end of the back side and taken through both)
    with BuildSketch(Plane(origin=(15, 0, 0), x_dir=(0, 0, -1), z_dir=(1, 0, 0)).offset(-CUT_EXTRUDE_28_DEPTH_BACK)):
        Polygon((0, 72.29617301), (70, 73.297590414), (70, 120), (0, 120), align=None)
        Polygon((70, 73.297590414), (189, 75), (189, 120), (70, 120), align=None)
        Polygon((70, 0), (70, 73.297590414), (0, 72.29617301), (0, 0), align=None)
        with BuildLine():
            Line((189, -151.582814983), (189, -23.79784784))
            Line((189, -23.79784784), (189, 75))
            Line((189, 75), (70, 73.297590414))
            Line((70, 73.297590414), (70, 0))
            Line((70, 0), (0, 0))
            Line((0, 0), (0, -23.79784784))
            Line((0, -23.79784784), (60, -23.79784784))
            Line((60, -23.79784784), (60, -60))
            Line((60, -60), (70, -60))
            Line((70, -60), (70, -23.79784784))
            Line((70, -23.79784784), (80, -23.79784784))
            Line((80, -23.79784784), (80, -151.582814983))
            Line((80, -151.582814983), (21.169966767, -130.404003019))
            ThreePointArc((21.169966767, -130.404003019), (5.821861702, -118.691056762), (0, -100.282814983))
            Line((0, -100.282814983), (0, -180.746423956))
            Line((0, -180.746423956), (189, -180.746423956))
            Line((189, -180.746423956), (189, -151.582814983))
        make_face()
        with BuildLine():
            Line((0, -23.79784784), (0, -100.282814983))
            ThreePointArc((0, -100.282814983), (5.821861702, -118.691056762), (21.169966767, -130.404003019))
            Line((21.169966767, -130.404003019), (80, -151.582814983))
            Line((80, -151.582814983), (80, -23.79784784))
            Line((80, -23.79784784), (70, -23.79784784))
            Line((70, -23.79784784), (70, -60))
            Line((70, -60), (60, -60))
            Line((60, -60), (60, -23.79784784))
            Line((60, -23.79784784), (0, -23.79784784))
        make_face()
    extrude(amount=CUT_EXTRUDE_28_DEPTH + CUT_EXTRUDE_28_DEPTH_BACK, mode=Mode.SUBTRACT)

    # 草图56 → 切除-拉伸29 (cut, two sides: drawn at the far end of the back side and taken through both)
    with BuildSketch(Plane.ZY.offset(-CUT_EXTRUDE_29_DEPTH_BACK)):
        with Locations((-229.5, -93.592009975)):
            Rectangle(SKETCH_56_W, SKETCH_56_H)
    extrude(amount=CUT_EXTRUDE_29_DEPTH + CUT_EXTRUDE_29_DEPTH_BACK, mode=Mode.SUBTRACT)

    # 草图57 → 凸台-拉伸30 (add)
    with BuildSketch(Plane.XZ.offset(23.79784784)):
        with Locations((2.5, -229.5)):
            Rectangle(SKETCH_57_W, SKETCH_57_H)
    extrude(amount=EXTRUDE_30_DEPTH)

    # 草图58 → 切除-拉伸30 (cut)
    with BuildSketch(Plane(origin=(5, 0, 0), x_dir=(0, 0, -1), z_dir=(1, 0, 0))):
        with Locations((260, -38.79784784)):
            Circle(SKETCH_58_R)
        with Locations((199, -38.79784784)):
            Circle(SKETCH_58_R)
    extrude(amount=-CUT_EXTRUDE_30_DEPTH, mode=Mode.SUBTRACT)

    # 草图59 → 切除-拉伸31 (cut)
    with BuildSketch(Plane.XY.offset(-189)):
        with Locations((15, -7.5)):
            Circle(SKETCH_59_R)
        with Locations((76.211474189, -7.5)):
            Circle(SKETCH_59_R)
    extrude(amount=-CUT_EXTRUDE_31_DEPTH, mode=Mode.SUBTRACT)


solid = part.part
